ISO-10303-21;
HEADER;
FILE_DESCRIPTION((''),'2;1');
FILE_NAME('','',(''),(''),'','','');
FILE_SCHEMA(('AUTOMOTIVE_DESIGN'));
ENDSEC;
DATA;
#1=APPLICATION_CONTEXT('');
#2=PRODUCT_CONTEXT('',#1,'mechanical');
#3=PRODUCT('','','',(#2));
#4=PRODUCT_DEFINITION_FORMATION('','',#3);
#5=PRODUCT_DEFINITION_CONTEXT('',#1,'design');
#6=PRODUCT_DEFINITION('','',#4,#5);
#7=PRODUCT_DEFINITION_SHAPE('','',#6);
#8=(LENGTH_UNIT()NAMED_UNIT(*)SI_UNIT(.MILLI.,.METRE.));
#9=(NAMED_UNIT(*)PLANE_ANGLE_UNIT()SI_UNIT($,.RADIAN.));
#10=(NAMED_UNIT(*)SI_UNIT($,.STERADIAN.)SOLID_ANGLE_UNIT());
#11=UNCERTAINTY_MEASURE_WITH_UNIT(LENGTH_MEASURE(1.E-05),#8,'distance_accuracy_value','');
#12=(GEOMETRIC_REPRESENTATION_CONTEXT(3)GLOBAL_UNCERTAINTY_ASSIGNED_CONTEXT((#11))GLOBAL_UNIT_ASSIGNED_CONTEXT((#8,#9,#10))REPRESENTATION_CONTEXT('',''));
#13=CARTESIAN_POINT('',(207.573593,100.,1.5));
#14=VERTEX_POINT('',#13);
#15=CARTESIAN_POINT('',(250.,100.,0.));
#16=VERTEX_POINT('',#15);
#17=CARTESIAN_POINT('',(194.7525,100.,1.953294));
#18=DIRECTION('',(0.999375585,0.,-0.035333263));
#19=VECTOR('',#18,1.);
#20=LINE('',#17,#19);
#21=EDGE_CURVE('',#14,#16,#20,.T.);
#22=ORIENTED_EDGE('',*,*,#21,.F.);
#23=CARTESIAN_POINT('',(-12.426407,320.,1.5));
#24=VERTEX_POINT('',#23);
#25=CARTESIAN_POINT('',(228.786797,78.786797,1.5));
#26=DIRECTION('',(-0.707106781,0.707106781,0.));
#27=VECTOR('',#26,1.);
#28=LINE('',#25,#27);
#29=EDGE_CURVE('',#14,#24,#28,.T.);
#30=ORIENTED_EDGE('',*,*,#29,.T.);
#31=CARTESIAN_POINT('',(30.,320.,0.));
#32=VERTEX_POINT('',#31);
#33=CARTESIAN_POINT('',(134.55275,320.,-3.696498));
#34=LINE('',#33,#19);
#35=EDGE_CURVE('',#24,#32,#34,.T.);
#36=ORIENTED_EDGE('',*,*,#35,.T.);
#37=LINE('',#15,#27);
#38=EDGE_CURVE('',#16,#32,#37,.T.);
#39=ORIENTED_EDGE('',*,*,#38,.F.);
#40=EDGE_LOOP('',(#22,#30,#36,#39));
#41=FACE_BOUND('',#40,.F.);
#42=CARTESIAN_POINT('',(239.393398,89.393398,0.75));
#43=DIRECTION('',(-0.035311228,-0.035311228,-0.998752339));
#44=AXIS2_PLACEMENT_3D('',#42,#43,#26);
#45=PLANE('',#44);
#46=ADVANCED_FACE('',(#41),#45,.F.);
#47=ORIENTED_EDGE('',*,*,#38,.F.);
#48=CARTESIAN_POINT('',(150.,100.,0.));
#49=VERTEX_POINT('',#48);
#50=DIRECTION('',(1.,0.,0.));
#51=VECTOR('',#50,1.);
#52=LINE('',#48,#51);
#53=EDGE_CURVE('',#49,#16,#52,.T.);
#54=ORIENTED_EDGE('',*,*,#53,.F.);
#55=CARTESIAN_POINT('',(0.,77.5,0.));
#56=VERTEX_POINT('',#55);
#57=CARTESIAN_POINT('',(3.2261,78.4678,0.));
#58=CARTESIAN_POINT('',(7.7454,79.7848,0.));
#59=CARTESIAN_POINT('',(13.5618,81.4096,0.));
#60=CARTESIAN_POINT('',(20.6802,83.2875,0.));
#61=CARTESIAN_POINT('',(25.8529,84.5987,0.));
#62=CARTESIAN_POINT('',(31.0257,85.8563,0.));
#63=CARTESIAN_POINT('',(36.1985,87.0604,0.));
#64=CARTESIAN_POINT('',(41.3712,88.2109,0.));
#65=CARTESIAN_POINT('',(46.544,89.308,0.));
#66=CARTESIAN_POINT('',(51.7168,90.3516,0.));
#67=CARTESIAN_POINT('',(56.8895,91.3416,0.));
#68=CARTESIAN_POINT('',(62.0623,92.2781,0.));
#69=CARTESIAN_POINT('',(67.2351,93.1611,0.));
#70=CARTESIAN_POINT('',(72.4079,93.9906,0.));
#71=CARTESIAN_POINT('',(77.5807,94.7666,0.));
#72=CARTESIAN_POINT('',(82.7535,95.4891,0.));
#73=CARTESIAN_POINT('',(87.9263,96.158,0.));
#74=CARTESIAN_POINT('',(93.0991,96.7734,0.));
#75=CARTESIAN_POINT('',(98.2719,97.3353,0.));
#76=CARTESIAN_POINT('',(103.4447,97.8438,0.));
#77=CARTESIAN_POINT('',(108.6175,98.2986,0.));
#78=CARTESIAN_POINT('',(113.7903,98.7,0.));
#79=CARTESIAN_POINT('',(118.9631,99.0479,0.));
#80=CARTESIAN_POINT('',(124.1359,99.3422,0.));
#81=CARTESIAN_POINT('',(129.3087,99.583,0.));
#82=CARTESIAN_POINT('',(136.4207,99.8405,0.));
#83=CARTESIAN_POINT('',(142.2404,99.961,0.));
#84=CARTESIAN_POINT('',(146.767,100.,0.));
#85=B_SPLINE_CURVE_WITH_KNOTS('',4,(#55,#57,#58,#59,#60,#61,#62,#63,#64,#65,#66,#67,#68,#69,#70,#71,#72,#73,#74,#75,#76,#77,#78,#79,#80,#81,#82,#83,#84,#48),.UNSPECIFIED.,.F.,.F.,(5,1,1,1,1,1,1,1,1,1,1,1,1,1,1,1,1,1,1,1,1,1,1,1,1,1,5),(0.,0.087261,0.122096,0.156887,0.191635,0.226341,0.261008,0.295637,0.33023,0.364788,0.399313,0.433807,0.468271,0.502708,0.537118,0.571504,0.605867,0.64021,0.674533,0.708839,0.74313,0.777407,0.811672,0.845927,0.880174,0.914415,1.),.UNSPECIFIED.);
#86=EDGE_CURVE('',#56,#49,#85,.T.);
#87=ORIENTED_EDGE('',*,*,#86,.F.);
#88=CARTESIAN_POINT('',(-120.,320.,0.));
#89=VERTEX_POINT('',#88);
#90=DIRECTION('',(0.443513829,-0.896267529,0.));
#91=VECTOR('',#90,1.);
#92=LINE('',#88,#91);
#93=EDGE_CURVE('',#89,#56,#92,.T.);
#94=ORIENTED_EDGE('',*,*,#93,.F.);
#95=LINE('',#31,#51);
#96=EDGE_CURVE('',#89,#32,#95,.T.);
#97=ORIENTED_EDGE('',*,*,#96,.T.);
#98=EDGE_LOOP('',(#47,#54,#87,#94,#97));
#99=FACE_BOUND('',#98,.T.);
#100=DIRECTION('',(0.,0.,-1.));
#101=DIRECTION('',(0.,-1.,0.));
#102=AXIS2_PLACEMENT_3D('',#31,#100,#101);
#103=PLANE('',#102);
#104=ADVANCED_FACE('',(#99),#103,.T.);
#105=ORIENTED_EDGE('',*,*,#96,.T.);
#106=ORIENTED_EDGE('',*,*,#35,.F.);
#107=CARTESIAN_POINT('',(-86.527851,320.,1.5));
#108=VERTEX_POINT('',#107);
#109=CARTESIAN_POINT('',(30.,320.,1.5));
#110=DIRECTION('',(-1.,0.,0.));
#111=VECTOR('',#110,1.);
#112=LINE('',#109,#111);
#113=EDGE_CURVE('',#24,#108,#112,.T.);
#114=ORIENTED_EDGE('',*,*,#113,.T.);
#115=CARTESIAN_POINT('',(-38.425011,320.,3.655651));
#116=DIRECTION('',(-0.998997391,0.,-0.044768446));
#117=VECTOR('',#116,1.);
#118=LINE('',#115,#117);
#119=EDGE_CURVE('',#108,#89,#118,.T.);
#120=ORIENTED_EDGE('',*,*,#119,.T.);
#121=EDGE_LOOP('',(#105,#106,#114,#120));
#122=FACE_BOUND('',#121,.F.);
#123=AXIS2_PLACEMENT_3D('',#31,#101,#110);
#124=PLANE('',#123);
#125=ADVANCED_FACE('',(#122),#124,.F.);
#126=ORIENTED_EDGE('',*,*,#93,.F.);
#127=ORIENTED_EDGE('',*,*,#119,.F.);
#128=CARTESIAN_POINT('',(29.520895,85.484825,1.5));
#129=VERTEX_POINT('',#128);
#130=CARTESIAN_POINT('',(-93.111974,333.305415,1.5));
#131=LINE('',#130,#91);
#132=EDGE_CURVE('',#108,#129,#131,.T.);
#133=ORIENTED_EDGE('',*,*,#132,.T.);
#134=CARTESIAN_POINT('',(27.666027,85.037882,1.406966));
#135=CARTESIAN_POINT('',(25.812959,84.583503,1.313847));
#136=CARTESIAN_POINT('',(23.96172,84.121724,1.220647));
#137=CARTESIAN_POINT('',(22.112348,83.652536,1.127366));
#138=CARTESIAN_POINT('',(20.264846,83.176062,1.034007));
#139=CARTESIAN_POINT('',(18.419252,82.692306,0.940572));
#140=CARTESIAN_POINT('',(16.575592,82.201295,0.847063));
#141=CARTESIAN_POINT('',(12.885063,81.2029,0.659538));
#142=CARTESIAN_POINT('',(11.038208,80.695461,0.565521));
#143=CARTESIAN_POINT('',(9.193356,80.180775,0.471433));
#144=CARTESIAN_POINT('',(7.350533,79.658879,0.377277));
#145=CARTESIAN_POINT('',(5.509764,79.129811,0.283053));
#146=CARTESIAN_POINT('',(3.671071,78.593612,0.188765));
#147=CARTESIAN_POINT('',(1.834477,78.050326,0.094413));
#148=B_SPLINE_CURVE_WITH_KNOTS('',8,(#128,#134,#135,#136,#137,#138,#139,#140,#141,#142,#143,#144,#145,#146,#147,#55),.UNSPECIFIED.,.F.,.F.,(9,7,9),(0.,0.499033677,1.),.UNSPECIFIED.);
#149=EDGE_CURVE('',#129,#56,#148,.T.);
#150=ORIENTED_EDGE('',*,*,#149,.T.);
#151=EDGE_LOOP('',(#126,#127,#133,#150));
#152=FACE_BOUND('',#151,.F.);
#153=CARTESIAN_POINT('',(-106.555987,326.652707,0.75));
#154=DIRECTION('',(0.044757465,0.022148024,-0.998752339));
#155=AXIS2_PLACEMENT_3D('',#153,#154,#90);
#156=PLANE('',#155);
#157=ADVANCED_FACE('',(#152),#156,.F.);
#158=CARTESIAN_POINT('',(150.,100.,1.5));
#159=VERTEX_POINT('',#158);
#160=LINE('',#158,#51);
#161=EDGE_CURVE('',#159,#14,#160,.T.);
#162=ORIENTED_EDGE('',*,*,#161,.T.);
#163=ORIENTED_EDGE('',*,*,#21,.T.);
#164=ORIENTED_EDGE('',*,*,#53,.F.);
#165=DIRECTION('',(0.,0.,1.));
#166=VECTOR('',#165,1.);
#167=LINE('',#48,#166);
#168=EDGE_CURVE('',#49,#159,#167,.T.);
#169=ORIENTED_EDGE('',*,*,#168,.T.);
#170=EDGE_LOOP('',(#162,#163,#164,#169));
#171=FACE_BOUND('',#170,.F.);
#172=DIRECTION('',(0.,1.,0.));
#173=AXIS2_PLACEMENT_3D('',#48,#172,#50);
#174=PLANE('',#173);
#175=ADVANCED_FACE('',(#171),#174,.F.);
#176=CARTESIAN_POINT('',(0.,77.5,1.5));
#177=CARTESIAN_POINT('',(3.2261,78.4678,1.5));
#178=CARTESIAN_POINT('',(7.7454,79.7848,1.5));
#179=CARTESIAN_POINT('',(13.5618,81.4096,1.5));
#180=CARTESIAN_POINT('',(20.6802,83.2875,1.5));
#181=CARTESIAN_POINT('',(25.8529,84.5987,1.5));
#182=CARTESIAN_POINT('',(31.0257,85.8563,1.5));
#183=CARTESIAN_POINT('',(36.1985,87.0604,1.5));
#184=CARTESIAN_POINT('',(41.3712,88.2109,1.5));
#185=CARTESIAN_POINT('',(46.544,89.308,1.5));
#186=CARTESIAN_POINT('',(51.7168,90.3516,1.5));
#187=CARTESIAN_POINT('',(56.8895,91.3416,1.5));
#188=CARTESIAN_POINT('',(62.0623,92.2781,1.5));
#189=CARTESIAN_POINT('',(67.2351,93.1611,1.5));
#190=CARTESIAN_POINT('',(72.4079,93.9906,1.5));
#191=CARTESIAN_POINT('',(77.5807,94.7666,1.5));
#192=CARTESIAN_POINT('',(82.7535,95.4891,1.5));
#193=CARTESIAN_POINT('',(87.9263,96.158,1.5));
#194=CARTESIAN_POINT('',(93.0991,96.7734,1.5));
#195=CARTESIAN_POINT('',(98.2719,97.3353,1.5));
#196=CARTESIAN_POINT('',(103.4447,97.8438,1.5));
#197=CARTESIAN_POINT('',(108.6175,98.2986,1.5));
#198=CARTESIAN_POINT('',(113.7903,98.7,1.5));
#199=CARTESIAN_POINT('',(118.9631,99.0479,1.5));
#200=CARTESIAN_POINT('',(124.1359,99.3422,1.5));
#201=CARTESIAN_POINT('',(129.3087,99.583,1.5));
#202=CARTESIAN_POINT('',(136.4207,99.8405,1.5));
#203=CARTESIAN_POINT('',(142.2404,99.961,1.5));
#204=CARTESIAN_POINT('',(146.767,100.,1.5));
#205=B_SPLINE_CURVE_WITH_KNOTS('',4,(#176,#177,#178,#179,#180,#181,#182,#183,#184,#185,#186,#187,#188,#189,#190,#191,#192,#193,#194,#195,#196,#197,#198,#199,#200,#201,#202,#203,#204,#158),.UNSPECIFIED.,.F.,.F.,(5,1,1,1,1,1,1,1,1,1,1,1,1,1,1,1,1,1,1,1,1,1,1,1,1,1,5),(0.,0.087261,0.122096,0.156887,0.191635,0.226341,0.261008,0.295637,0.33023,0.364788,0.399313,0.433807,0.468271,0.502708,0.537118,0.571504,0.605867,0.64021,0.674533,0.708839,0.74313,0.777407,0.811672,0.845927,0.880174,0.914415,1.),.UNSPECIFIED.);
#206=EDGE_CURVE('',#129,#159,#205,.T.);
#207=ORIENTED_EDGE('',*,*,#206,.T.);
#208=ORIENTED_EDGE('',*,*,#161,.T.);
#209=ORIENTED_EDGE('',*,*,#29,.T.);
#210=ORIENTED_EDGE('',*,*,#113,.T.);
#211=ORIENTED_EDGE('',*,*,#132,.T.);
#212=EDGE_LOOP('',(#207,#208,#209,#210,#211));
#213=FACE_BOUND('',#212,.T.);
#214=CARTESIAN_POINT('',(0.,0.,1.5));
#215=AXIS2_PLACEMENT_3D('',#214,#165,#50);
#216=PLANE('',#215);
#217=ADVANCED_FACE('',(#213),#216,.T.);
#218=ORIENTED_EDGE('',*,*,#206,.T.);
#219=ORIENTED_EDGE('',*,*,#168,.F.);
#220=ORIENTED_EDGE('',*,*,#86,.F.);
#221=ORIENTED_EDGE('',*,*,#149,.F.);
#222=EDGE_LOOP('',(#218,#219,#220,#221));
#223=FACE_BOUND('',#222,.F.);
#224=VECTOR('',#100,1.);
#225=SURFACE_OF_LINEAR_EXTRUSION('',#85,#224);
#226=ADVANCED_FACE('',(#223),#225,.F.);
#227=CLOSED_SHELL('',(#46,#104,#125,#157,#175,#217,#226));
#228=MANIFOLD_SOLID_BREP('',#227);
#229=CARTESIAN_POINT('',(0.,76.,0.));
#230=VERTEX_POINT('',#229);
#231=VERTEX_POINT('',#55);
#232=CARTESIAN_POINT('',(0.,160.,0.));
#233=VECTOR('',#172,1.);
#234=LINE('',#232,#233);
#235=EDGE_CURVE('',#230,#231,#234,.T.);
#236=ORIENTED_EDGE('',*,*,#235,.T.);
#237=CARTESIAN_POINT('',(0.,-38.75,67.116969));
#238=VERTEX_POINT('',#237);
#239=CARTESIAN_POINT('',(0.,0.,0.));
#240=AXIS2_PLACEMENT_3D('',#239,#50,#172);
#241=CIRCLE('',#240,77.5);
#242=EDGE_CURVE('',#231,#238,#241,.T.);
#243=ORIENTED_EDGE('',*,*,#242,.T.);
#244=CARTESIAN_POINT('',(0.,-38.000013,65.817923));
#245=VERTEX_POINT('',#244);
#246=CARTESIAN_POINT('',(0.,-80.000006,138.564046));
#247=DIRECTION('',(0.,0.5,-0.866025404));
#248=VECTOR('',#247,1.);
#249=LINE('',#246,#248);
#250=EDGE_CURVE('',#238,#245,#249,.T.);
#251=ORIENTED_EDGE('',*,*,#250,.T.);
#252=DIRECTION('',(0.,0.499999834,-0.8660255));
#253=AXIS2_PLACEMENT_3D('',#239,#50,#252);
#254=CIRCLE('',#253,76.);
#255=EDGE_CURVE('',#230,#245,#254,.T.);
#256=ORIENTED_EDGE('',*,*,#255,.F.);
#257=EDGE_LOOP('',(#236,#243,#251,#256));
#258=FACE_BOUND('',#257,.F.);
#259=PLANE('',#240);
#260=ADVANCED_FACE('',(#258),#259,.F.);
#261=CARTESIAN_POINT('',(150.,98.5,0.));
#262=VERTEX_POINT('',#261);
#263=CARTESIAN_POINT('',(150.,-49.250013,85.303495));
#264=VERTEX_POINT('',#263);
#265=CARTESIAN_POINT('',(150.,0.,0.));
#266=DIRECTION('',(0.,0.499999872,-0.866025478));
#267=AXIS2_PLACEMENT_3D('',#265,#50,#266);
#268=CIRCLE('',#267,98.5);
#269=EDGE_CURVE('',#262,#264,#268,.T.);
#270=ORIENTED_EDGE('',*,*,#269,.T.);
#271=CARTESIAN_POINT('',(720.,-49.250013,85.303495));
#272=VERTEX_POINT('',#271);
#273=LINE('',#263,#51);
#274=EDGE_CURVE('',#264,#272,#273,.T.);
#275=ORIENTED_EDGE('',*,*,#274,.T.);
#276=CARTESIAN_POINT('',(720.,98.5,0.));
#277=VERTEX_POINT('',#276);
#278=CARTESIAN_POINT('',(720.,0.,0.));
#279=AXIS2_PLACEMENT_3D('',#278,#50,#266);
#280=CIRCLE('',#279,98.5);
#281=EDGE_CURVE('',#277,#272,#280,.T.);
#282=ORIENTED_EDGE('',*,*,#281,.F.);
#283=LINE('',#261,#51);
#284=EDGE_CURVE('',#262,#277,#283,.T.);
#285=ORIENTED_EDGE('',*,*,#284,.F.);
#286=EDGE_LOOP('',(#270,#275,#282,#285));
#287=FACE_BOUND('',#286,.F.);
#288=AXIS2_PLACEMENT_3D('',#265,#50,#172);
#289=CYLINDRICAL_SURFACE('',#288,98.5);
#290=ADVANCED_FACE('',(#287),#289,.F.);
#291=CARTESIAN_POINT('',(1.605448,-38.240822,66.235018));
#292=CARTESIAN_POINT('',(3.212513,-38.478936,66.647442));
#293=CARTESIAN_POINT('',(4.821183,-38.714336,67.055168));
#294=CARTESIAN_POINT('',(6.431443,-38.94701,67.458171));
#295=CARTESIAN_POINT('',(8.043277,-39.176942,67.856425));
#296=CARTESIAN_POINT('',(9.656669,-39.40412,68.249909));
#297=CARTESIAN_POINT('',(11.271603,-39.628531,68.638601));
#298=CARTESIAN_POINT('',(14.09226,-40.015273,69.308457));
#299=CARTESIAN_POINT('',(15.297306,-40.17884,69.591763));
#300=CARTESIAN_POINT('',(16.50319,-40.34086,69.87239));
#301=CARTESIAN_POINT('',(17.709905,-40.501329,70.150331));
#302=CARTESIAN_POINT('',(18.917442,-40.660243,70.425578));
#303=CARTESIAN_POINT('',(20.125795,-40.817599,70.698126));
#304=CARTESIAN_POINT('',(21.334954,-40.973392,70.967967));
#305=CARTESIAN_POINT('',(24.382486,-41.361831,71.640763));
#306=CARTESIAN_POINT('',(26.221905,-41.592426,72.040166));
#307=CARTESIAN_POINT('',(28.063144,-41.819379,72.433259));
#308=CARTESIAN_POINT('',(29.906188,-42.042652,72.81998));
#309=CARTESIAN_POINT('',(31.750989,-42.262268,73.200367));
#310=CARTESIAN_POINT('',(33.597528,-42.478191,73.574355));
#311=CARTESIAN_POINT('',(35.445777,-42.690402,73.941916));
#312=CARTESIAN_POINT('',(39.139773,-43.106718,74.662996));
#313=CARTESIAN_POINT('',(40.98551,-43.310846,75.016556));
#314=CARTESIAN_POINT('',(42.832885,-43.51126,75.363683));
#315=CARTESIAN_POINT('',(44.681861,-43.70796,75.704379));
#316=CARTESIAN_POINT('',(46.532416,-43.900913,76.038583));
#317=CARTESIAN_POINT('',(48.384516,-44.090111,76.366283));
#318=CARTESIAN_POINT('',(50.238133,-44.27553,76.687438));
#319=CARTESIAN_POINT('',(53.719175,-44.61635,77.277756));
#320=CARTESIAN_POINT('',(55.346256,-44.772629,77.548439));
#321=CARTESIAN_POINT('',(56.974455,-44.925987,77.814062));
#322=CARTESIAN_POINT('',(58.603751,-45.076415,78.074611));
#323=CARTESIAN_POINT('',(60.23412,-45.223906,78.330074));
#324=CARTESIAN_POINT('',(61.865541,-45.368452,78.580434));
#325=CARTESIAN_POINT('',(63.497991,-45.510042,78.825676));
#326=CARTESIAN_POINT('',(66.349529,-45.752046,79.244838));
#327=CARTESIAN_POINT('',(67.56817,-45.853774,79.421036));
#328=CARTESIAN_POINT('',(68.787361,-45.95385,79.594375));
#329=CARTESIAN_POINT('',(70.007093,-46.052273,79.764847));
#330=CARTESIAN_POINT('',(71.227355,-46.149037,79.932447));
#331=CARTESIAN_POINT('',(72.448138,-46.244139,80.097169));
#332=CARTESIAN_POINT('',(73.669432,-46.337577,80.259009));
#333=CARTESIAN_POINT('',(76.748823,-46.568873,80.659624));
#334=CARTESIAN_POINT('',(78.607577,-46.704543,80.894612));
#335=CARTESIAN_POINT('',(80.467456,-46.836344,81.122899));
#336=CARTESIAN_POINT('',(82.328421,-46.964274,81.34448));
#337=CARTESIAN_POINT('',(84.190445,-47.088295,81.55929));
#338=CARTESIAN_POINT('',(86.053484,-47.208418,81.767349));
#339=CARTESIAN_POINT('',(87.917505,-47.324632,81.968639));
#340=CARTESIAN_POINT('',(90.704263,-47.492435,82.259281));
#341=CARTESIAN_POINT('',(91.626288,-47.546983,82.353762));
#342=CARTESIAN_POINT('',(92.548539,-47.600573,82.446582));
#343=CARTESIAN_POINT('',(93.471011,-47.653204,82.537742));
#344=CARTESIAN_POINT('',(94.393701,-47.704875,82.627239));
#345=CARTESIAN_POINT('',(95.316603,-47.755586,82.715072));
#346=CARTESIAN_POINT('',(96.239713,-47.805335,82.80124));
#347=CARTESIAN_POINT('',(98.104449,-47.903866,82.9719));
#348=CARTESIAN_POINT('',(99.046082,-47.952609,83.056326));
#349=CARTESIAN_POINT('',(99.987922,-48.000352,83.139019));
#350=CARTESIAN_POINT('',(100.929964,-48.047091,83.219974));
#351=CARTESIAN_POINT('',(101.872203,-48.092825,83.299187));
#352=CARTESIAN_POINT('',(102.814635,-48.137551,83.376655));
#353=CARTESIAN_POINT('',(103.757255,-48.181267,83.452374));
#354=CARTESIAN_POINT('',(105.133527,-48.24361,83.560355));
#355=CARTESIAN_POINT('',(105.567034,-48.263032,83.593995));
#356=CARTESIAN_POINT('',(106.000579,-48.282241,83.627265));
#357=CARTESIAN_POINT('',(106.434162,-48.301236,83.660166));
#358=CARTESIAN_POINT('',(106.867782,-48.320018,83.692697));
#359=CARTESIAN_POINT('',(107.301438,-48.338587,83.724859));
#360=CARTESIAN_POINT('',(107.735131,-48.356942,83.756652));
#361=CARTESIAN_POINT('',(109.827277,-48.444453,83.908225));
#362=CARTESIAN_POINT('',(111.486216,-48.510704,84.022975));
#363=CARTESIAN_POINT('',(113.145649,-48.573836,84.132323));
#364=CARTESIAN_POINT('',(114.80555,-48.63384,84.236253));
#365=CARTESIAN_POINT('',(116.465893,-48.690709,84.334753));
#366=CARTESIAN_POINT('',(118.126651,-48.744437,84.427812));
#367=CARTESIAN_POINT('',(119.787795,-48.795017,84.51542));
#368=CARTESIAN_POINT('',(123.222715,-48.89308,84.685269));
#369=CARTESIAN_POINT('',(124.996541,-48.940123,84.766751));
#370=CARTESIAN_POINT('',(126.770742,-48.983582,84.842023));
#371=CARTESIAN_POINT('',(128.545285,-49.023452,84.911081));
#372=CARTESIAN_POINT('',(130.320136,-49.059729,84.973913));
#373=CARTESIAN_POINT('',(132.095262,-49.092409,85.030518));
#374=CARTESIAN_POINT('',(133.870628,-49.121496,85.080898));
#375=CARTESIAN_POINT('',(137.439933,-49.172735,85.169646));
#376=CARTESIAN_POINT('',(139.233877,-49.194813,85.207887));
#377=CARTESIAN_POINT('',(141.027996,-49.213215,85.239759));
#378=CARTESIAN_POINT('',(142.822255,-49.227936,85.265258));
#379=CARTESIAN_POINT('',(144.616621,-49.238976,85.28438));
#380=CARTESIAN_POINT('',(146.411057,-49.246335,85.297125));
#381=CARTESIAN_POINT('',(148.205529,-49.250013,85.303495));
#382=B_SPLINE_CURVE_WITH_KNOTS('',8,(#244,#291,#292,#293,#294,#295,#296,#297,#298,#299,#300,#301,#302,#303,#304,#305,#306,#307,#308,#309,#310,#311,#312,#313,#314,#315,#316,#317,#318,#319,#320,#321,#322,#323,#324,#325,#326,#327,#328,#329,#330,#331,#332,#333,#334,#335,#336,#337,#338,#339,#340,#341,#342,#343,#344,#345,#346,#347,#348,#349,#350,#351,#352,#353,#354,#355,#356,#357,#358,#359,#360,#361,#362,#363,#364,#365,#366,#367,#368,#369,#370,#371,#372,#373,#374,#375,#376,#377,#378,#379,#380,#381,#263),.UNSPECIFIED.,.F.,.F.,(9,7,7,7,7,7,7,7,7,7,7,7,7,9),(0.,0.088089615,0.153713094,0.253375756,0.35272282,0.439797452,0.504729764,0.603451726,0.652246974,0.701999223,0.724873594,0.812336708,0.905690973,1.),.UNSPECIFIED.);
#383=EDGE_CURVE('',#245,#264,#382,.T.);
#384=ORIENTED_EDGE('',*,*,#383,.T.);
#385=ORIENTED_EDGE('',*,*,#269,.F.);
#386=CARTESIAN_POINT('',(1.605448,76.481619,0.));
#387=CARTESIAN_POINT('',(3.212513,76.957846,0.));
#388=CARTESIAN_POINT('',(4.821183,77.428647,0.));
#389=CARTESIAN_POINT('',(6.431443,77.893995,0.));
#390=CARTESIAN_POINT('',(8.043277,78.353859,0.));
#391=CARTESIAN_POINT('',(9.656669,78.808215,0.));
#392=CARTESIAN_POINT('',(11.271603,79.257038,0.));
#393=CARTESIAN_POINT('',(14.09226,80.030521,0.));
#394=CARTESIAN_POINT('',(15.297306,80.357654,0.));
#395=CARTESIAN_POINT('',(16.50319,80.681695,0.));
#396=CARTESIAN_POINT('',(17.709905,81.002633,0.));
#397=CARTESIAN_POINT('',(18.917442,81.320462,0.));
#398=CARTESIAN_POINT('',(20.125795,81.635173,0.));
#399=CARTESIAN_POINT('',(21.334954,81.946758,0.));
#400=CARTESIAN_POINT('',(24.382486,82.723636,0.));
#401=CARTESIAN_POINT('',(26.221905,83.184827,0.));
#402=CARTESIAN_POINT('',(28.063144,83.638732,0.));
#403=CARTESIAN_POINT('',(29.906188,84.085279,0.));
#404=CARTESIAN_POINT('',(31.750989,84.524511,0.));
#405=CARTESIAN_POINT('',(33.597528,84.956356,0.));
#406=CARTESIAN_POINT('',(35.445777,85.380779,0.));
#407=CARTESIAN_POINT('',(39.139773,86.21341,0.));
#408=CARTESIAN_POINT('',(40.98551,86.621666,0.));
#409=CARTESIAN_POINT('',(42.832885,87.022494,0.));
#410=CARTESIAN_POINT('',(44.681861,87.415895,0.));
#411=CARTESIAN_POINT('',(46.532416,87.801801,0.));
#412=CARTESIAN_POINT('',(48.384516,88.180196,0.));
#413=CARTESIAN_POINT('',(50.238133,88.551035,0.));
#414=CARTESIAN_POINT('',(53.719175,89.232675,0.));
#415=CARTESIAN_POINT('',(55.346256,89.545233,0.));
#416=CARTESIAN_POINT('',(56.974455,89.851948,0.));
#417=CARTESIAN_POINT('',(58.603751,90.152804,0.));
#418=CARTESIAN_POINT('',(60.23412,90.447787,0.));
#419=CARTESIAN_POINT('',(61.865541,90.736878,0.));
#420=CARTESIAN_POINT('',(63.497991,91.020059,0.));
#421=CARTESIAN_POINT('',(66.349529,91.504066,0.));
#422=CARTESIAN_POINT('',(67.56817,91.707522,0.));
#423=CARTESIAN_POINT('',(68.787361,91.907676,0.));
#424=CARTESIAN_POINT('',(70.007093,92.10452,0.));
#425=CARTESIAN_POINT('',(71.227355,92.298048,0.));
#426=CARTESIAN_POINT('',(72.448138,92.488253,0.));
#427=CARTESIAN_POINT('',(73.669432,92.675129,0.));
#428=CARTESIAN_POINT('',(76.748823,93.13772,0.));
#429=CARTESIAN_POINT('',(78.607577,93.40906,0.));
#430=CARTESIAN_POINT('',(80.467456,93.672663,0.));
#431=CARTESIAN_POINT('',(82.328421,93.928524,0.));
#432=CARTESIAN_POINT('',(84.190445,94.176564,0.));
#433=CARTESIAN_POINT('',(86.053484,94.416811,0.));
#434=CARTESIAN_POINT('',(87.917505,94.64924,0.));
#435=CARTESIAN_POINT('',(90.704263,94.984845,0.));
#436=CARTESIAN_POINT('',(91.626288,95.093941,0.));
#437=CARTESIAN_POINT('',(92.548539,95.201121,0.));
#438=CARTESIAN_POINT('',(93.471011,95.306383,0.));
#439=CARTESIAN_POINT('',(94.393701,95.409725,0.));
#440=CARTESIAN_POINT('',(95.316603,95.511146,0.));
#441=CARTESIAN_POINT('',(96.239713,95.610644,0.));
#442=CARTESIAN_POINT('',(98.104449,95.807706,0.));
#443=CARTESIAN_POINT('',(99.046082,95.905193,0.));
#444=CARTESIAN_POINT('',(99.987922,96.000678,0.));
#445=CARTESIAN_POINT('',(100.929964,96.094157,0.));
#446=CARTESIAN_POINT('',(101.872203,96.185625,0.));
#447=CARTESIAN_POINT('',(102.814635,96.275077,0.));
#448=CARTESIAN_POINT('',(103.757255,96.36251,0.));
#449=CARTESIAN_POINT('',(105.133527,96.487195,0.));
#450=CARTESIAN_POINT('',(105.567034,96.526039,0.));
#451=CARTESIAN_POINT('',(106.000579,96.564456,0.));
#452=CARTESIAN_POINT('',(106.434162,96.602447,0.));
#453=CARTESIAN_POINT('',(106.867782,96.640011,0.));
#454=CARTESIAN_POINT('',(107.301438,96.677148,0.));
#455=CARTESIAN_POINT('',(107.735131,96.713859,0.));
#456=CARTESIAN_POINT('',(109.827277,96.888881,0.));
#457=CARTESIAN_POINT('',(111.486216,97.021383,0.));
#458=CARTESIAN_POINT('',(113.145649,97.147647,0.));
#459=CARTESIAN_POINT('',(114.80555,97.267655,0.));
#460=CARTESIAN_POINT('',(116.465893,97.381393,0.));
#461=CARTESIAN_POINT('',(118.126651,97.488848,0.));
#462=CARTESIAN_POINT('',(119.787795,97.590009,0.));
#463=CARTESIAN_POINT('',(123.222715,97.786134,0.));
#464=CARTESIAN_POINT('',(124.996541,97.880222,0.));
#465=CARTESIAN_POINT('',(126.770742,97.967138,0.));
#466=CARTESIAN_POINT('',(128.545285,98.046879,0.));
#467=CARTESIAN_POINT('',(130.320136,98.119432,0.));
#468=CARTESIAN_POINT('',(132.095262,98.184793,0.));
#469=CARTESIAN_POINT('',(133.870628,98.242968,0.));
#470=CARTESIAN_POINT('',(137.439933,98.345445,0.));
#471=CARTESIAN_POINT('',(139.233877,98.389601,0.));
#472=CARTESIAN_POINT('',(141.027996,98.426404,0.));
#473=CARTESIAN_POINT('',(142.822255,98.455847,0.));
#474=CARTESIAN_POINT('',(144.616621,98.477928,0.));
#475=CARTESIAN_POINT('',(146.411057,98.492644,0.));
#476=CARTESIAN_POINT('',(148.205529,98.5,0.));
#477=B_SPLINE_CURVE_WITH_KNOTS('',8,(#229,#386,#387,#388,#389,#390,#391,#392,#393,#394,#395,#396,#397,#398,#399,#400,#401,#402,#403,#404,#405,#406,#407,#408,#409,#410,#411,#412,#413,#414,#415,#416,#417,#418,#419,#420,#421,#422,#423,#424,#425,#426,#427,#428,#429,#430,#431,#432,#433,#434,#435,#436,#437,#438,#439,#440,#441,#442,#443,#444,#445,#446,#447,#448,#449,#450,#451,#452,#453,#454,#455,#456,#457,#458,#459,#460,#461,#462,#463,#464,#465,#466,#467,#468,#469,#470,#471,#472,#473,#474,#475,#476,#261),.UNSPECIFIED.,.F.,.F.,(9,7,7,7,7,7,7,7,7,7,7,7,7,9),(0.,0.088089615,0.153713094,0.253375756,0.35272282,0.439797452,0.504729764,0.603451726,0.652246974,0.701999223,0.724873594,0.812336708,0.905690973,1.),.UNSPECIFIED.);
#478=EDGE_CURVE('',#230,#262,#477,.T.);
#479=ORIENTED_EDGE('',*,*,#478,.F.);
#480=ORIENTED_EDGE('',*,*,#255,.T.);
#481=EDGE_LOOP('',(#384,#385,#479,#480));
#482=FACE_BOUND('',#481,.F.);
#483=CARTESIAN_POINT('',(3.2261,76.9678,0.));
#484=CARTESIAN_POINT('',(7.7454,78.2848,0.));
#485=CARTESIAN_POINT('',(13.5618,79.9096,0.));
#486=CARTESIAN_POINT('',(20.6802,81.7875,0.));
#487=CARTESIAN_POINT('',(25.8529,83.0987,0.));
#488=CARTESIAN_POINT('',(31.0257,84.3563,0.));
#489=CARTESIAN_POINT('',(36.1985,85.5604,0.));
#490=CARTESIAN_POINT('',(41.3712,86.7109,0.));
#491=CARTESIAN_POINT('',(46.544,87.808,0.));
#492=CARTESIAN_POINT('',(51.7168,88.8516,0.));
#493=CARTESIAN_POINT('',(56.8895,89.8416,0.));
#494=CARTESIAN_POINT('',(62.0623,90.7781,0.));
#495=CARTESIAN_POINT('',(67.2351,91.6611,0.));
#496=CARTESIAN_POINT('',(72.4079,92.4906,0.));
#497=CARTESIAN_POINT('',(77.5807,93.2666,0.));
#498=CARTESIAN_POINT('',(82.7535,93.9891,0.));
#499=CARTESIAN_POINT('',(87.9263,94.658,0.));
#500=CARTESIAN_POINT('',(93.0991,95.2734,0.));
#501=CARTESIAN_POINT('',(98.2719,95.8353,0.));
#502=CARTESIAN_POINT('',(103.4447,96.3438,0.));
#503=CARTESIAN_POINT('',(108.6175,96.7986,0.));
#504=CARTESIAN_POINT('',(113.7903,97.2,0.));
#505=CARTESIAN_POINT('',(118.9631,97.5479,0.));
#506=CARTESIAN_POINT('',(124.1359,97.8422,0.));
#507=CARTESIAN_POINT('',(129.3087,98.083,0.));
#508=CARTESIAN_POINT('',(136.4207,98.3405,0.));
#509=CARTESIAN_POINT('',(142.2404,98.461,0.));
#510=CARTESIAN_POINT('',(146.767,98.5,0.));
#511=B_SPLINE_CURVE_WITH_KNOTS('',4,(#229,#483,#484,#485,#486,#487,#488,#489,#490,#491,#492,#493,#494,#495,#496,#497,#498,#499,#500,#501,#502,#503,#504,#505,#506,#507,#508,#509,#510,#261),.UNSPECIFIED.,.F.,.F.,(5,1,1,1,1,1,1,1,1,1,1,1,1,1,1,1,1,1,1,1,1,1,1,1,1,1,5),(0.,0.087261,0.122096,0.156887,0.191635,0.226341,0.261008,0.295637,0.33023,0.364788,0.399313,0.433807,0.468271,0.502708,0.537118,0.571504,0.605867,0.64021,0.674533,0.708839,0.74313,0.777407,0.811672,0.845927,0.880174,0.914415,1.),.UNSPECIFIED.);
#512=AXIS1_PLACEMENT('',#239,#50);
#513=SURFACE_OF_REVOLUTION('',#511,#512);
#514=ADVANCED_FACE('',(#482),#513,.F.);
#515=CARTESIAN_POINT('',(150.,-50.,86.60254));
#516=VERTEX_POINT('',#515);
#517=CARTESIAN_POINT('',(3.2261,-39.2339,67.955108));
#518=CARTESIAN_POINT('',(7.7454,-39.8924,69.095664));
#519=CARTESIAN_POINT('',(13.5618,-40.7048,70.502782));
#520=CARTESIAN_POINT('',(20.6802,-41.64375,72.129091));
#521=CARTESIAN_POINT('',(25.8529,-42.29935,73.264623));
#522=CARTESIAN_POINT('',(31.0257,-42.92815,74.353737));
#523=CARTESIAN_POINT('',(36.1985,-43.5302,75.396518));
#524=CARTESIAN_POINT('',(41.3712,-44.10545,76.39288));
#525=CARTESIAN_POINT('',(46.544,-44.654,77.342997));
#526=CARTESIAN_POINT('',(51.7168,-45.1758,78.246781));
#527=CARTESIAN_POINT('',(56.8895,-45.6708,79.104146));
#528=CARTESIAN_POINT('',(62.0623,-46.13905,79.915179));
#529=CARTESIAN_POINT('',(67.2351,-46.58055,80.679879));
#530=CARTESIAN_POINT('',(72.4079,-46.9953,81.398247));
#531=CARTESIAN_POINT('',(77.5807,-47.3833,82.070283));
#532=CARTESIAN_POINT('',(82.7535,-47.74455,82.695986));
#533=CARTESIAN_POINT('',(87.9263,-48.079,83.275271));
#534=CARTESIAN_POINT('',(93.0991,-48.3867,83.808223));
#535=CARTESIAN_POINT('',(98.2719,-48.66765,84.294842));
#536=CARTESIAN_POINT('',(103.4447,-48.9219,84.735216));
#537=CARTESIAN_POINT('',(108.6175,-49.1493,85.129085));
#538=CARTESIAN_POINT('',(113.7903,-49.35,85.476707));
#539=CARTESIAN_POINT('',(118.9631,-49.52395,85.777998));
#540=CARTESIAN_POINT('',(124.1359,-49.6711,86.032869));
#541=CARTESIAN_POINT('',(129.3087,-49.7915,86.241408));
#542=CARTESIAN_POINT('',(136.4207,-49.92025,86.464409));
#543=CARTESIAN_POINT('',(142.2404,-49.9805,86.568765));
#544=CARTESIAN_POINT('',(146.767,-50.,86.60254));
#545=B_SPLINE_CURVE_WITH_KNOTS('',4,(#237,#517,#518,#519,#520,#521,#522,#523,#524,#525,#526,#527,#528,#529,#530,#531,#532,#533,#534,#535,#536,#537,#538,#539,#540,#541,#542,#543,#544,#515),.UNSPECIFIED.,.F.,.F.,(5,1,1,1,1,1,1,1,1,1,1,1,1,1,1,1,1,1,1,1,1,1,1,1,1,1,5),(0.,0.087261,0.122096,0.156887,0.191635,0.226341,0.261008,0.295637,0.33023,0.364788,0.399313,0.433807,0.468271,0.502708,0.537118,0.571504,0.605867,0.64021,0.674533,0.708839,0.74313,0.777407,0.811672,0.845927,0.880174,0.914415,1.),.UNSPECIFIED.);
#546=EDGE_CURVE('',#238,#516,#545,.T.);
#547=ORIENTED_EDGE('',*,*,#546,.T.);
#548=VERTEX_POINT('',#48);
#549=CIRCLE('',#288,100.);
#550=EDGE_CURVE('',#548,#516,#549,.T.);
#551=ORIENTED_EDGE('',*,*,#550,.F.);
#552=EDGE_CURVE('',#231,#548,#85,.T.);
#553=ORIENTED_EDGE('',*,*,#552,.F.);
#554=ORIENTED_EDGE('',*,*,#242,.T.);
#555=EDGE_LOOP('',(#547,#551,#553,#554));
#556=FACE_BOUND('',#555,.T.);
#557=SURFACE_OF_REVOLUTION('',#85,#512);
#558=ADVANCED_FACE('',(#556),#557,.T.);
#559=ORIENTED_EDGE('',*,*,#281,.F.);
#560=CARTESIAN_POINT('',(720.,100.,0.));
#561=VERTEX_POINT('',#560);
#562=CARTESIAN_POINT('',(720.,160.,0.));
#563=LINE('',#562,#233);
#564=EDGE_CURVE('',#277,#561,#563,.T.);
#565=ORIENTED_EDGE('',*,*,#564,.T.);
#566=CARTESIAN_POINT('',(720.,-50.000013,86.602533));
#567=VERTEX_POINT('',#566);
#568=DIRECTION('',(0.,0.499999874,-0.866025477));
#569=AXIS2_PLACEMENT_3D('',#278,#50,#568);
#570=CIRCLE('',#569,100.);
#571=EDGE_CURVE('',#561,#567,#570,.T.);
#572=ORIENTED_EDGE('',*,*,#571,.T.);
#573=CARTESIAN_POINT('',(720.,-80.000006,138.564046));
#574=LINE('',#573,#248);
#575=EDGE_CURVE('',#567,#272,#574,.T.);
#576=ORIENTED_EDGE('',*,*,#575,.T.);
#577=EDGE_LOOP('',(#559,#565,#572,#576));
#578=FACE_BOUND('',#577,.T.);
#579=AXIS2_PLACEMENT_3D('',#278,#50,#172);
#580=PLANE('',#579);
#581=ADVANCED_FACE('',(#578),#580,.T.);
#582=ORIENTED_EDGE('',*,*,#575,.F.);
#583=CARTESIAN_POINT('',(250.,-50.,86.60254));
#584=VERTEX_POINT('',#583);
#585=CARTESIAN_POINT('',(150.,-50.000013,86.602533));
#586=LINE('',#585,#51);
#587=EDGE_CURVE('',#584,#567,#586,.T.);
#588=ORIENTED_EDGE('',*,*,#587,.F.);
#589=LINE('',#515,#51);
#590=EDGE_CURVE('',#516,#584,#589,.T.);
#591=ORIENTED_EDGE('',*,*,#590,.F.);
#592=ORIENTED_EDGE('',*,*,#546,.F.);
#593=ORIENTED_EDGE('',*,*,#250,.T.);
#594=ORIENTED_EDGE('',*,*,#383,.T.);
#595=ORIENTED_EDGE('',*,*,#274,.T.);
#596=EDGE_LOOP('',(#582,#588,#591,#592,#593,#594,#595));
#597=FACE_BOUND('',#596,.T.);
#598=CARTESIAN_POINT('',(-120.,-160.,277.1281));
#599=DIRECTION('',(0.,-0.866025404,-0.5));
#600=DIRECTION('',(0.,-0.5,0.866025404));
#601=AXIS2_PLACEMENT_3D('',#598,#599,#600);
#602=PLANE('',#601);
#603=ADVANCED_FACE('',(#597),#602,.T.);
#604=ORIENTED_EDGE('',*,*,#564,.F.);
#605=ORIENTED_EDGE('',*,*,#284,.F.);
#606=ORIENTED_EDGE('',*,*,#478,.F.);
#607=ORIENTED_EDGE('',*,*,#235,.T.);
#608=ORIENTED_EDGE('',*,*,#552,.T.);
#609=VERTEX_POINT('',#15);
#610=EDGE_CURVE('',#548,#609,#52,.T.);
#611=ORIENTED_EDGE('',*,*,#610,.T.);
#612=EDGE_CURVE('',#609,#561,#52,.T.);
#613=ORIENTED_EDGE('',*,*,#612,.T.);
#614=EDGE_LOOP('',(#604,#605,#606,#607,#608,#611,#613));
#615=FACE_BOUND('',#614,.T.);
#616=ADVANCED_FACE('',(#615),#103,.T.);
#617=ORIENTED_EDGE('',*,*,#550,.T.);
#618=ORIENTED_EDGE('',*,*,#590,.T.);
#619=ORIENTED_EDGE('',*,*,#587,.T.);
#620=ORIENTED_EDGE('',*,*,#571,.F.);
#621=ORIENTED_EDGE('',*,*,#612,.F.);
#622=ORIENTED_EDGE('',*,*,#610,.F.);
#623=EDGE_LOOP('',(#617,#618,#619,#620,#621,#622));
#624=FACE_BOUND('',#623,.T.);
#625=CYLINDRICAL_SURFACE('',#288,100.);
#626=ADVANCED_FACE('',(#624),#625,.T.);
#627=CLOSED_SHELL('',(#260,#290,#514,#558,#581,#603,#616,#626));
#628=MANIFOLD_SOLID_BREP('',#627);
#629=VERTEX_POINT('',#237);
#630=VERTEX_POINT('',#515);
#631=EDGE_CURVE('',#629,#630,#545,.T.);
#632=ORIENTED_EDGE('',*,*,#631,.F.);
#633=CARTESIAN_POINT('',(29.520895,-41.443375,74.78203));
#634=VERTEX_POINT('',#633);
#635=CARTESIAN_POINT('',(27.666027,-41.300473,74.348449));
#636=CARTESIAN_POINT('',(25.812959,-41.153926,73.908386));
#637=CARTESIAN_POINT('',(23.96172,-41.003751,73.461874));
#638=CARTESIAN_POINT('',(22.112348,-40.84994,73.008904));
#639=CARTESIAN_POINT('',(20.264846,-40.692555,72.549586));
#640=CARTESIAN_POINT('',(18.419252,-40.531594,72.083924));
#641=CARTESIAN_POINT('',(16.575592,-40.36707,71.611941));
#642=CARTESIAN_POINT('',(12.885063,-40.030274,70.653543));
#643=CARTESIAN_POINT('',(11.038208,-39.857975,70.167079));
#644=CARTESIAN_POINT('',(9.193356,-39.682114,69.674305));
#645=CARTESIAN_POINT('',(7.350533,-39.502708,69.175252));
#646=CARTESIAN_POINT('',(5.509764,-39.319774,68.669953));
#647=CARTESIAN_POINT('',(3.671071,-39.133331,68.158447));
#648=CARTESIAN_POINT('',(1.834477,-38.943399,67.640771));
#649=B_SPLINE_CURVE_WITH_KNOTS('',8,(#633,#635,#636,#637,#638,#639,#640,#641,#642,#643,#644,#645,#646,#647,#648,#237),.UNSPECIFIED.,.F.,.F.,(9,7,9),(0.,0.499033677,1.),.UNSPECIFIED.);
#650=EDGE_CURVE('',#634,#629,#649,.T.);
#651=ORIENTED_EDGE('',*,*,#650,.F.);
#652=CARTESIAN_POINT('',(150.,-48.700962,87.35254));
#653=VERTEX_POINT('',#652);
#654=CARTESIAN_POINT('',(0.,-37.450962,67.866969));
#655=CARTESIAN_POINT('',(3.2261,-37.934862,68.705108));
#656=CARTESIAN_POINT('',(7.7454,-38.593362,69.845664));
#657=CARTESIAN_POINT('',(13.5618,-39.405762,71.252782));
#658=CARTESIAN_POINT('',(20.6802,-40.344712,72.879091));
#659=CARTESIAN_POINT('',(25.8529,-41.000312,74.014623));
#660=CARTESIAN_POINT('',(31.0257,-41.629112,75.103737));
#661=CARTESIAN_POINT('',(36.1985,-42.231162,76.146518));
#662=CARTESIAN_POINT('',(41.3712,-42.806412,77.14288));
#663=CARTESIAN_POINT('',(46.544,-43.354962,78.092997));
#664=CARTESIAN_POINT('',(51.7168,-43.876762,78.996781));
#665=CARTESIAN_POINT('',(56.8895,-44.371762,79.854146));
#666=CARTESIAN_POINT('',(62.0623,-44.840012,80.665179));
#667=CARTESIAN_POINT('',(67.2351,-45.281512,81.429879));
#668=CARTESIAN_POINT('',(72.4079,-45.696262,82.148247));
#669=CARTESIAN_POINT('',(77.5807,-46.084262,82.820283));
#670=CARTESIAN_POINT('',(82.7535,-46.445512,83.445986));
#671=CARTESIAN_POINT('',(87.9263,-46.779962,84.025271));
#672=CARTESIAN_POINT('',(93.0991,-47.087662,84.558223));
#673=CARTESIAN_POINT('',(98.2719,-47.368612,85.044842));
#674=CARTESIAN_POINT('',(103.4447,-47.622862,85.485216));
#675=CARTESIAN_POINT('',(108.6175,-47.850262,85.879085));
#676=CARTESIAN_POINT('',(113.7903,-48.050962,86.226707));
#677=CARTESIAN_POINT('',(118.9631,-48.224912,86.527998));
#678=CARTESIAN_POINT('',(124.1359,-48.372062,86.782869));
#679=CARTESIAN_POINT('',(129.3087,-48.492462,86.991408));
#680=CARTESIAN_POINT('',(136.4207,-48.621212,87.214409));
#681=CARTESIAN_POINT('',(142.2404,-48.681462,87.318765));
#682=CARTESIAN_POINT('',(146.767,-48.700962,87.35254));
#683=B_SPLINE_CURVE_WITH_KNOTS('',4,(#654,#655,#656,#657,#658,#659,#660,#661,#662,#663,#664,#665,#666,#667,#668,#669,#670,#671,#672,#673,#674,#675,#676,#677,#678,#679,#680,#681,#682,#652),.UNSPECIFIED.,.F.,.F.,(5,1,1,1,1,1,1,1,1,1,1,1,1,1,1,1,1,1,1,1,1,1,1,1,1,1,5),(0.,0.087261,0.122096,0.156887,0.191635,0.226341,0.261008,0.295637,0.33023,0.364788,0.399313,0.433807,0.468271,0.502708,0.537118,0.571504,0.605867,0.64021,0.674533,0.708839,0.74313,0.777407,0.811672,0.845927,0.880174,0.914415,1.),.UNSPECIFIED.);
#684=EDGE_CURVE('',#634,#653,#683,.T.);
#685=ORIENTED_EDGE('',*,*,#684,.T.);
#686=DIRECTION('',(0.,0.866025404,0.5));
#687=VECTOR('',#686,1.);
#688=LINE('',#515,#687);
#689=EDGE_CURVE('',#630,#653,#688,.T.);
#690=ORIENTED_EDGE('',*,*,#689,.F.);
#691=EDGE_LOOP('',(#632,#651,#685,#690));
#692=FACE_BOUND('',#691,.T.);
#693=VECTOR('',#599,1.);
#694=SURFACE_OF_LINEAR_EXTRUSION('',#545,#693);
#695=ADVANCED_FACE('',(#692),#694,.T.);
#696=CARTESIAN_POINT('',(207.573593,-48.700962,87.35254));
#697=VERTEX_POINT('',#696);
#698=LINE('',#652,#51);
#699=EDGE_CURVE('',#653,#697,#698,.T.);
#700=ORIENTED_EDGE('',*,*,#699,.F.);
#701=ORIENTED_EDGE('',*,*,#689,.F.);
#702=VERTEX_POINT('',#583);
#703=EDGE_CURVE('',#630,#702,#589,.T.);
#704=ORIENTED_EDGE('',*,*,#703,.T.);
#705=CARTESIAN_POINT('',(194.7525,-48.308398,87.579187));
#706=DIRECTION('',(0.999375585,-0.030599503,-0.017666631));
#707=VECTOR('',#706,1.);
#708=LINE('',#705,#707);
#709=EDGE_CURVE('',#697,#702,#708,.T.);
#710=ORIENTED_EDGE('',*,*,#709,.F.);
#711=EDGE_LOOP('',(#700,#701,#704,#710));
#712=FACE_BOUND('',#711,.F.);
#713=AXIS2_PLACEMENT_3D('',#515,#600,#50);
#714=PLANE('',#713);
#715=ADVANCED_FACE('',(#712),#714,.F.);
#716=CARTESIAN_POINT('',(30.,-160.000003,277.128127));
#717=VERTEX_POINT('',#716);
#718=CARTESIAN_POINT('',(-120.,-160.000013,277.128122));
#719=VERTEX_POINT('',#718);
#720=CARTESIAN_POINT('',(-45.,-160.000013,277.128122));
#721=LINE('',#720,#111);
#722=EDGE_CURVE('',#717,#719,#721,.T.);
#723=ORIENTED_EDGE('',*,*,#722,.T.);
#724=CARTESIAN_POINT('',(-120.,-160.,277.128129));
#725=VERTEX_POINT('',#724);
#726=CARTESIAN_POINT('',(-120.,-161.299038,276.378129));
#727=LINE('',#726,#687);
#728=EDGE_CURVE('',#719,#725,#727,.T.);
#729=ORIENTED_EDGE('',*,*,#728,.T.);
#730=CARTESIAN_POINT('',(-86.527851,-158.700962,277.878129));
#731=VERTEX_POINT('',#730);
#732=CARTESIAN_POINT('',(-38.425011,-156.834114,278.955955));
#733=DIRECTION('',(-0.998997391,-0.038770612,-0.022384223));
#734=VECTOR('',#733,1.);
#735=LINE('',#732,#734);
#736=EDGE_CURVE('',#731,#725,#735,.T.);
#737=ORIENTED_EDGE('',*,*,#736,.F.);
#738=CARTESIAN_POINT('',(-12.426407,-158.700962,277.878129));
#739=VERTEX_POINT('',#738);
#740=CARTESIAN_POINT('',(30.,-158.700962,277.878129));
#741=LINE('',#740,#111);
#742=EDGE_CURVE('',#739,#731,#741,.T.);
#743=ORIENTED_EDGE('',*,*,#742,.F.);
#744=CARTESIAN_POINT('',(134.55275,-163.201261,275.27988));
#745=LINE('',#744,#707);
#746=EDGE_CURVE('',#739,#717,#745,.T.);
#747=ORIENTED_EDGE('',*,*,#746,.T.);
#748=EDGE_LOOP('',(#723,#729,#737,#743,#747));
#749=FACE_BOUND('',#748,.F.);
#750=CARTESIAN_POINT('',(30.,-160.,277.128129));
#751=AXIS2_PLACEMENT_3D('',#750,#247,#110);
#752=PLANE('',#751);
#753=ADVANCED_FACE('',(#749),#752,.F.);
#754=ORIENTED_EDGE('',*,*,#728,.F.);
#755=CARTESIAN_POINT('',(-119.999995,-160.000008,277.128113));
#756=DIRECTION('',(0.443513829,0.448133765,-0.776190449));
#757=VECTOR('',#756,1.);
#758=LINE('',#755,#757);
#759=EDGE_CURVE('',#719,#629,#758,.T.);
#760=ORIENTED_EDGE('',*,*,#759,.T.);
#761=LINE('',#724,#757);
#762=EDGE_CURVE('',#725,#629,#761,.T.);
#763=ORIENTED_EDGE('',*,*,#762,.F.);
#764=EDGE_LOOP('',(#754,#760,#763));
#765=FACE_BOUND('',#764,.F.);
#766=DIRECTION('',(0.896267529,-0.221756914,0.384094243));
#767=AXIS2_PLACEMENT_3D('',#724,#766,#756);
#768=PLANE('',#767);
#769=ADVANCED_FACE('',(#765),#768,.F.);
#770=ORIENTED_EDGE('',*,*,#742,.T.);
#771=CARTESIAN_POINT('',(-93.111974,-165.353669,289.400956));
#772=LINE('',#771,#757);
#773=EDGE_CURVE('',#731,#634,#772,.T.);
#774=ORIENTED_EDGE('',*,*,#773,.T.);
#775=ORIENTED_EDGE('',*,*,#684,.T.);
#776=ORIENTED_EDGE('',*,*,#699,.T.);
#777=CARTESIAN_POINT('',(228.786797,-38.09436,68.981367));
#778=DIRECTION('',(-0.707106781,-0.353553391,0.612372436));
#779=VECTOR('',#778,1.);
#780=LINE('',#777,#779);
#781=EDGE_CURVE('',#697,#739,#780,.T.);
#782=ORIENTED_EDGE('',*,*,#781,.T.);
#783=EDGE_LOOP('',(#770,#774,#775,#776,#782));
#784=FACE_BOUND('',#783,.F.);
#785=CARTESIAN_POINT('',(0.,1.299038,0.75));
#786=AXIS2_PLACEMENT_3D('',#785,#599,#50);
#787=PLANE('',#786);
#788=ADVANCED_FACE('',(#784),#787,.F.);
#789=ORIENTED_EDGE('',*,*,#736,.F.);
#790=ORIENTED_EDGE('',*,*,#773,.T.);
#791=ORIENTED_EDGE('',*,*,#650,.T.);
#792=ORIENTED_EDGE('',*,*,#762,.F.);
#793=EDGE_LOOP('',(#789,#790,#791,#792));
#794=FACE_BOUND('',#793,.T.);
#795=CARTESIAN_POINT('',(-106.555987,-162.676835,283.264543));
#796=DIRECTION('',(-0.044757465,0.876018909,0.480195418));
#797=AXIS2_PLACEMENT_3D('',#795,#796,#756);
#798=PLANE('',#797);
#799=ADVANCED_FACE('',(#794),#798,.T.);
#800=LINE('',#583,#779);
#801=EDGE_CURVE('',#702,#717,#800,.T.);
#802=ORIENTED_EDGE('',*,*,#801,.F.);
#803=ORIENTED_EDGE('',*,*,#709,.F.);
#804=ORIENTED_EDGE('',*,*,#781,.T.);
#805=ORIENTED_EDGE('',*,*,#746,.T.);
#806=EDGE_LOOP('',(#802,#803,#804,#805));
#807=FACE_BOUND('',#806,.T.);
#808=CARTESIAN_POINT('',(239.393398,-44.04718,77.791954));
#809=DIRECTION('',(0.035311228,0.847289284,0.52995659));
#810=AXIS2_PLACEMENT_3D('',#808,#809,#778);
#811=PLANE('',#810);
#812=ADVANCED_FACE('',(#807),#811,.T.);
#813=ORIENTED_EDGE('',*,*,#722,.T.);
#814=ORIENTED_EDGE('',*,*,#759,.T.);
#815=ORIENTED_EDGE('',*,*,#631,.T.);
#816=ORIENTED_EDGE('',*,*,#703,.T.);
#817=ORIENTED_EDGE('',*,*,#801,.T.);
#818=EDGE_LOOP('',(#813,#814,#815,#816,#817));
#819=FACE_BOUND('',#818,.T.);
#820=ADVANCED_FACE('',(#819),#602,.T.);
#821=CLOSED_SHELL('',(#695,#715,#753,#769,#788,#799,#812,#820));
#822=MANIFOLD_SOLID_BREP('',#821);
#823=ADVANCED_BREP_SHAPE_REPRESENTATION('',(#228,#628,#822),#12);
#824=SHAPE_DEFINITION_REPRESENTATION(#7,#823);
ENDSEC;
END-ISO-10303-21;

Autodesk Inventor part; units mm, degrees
ref_plane "YZ Plane" through (0, 0, 0) normal (1, 0, 0) x (0, 1, 0)
ref_plane "XZ Plane" through (0, 0, 0) normal (0, 1, 0) x (-1, 0, 0)
ref_plane "XY Plane" through (0, 0, 0) normal (0, 0, 1) x (1, 0, 0)
sketch "Sketch3" plane through (0, 0, 0) normal (0, 0, 1) x (1, 0, 0)
  spline S0 degree 4 poles (0, 76) (3.2261, 76.9678) (7.7454, 78.2848) (13.5618, 79.9096) (20.6802, 81.7875) (25.8529, 83.0987) (31.0257, 84.3563) (36.1985, 85.5604) (41.3712, 86.7109) (46.544, 87.808) (51.7168, 88.8516) (56.8895, 89.8416) (62.0623, 90.7781) (67.2351, 91.6611) (72.4079, 92.4906) (77.5807, 93.2666) (82.7535, 93.9891) (87.9263, 94.658) (93.0991, 95.2734) (98.2719, 95.8353) (103.4447, 96.3438) (108.6175, 96.7986) (113.7903, 97.2) (118.9631, 97.5479) (124.1359, 97.8422) (129.3087, 98.083) (136.4207, 98.3405) (142.2404, 98.461) (146.767, 98.5) (150, 98.5) knots 0 0 0 0 0 0.087261 0.122096 0.156887 0.191635 0.226341 0.261008 0.295637 0.33023 0.364788 0.399313 0.433807 0.468271 0.502708 0.537118 0.571504 0.605867 0.64021 0.674533 0.708839 0.74313 0.777407 0.811672 0.845927 0.880174 0.914415 1 1 1 1 1
  spline S1 degree 4 poles (0, 77.5) (3.2261, 78.4678) (7.7454, 79.7848) (13.5618, 81.4096) (20.6802, 83.2875) (25.8529, 84.5987) (31.0257, 85.8563) (36.1985, 87.0604) (41.3712, 88.2109) (46.544, 89.308) (51.7168, 90.3516) (56.8895, 91.3416) (62.0623, 92.2781) (67.2351, 93.1611) (72.4079, 93.9906) (77.5807, 94.7666) (82.7535, 95.4891) (87.9263, 96.158) (93.0991, 96.7734) (98.2719, 97.3353) (103.4447, 97.8438) (108.6175, 98.2986) (113.7903, 98.7) (118.9631, 99.0479) (124.1359, 99.3422) (129.3087, 99.583) (136.4207, 99.8405) (142.2404, 99.961) (146.767, 100) (150, 100) knots 0 0 0 0 0 0.087261 0.122096 0.156887 0.191635 0.226341 0.261008 0.295637 0.33023 0.364788 0.399313 0.433807 0.468271 0.502708 0.537118 0.571504 0.605867 0.64021 0.674533 0.708839 0.74313 0.777407 0.811672 0.845927 0.880174 0.914415 1 1 1 1 1
  line L0 (0, 77.5) -> (0, 76)
  line L1 (150, 100) -> (720, 100)
  line L2 (150, 98.5) -> (720, 98.5)
  line L3 (720, 100) -> (720, 98.5)
  line L4 (0, 0) -> (1383.1618, 0) construction
  line L5 (250, 100) -> (30, 320)
  line L6 (30, 320) -> (-120, 320)
  line L7 (-120, 320) -> (0, 77.5)
  point P0 (5.1724, 77.525)
  point P1 (10.3448, 78.9964)
  point P2 (15.5172, 80.4144)
  point P3 (20.6897, 81.7788)
  point P4 (25.8621, 83.0898)
  point P5 (31.0345, 84.3472)
  point P6 (36.2069, 85.5511)
  point P7 (41.3793, 86.7015)
  point P8 (46.5517, 87.7985)
  point P9 (51.7241, 88.8419)
  point P10 (56.8966, 89.8317)
  point P11 (62.069, 90.7681)
  point P12 (67.2414, 91.651)
  point P13 (72.4138, 92.4804)
  point P14 (77.5862, 93.2562)
  point P15 (82.7586, 93.9786)
  point P16 (87.931, 94.6474)
  point P17 (93.1034, 95.2628)
  point P18 (98.2759, 95.8246)
  point P19 (103.4483, 96.3329)
  point P20 (108.6207, 96.7878)
  point P21 (113.7931, 97.1891)
  point P22 (118.9655, 97.5369)
  point P23 (124.1379, 97.8312)
  point P24 (129.3103, 98.0719)
  point P25 (134.4828, 98.2592)
  point P26 (139.6552, 98.393)
  point P27 (144.8276, 98.4732)
  point P28 (5.1724, 79.025)
  point P29 (10.3448, 80.4964)
  point P30 (15.5172, 81.9144)
  point P31 (20.6897, 83.2788)
  point P32 (25.8621, 84.5898)
  point P33 (31.0345, 85.8472)
  point P34 (36.2069, 87.0511)
  point P35 (41.3793, 88.2015)
  point P36 (46.5517, 89.2985)
  point P37 (51.7241, 90.3419)
  point P38 (56.8966, 91.3317)
  point P39 (62.069, 92.2681)
  point P40 (67.2414, 93.151)
  point P41 (72.4138, 93.9804)
  point P42 (77.5862, 94.7562)
  point P43 (82.7586, 95.4786)
  point P44 (87.931, 96.1474)
  point P45 (93.1034, 96.7628)
  point P46 (98.2759, 97.3246)
  point P47 (103.4483, 97.8329)
  point P48 (108.6207, 98.2878)
  point P49 (113.7931, 98.6891)
  point P50 (118.9655, 99.0369)
  point P51 (124.1379, 99.3312)
  point P52 (129.3103, 99.5719)
  point P53 (134.4828, 99.7592)
  point P54 (139.6552, 99.893)
  point P55 (144.8276, 99.9732)
  dimension "d6" = 570
  dimension "d7" = 1.5
  dimension "d8" = 1.5
  dimension "d9" = 100
  dimension "d11" = 45
  dimension "d12" = 220
  dimension "d13" = 250
  dimension "d14" = 150
  dimension "d15" = 77.5
  dimension "d63" = 720
  dimension "d66" = 150
revolve "Revolution1" add sketch "Sketch3" angle 360 about axis through (0, 0, 0) along (1, 0, 0) contours L0 S1 L1 L3 L2 S0
extrude "Extrusion1" add sketch "Sketch3" along normal mid plane 3 contours L7 L6 L5 L1 S1
pattern_circular "Circular Pattern1" count 3 over 360 about axis through (-10, 0, 0) along (-1, 0, 0) of "Extrusion1"
chamfer "Chamfer1" distance 30 distance2 1.5 1 edges at (140, -103.701, 182.6153) measured on face at (-30, -118.2843, 207.8744)
chamfer "Chamfer2" distance 30 distance2 1.5 1 edges at (140, -106.299, 181.1153) measured on face at (-30, -120.8824, 206.3744)
chamfer "Chamfer3" distance 30 distance2 1.5 1 edges at (-60, -98.076, 172.8725) measured on face at (-44.1421, -118.2843, 207.8744)
chamfer "Chamfer5" distance 30 distance2 1.5 1 edges at (-60, 198.75, 1.5) measured on face at (-30, 239.1667, 1.5)
chamfer "Chamfer6" distance 30 distance2 1.5 1 edges at (140, 210, 1.5) measured on face at (-9.0023, 241.8283, 1.5)
chamfer "Chamfer7" distance 30 distance2 1.5 1 edges at (-60, 198.75, -1.5) measured on face at (-30, 239.1667, -1.5)
chamfer "Chamfer8" distance 30 distance2 1.5 1 edges at (140, 210, -1.5) measured on face at (-9.0027, 241.8282, -1.5)
chamfer "Chamfer9" distance 30 distance2 1.5 1 edges at (-60, -98.076, -172.8725) measured on face at (-30, -118.2843, -207.8744)
chamfer "Chamfer10" distance 30 distance2 1.5 1 edges at (140, -103.701, -182.6153) measured on face at (-9.0023, -119.6151, -210.1794)
chamfer "Chamfer11" distance 30 distance2 1.5 1 edges at (140, -106.299, -181.1153) measured on face at (-30, -120.8824, -206.3744)
chamfer "Chamfer12" distance 30 distance2 1.5 1 edges at (-60, -100.674, -171.3725) measured on face at (-44.1419, -120.8824, -206.3744)
chamfer "Chamfer13" distance 30 distance2 1.5 1 edges at (-60, -100.674, 171.3725) measured on face at (-44.1419, -120.8824, 206.3744)
ref_plane "Work Plane1" through (30, 320, 0) normal (0, 0, -1) x (-1, 0, 0)
ref_plane "Work Plane2" through (-120, -160, 277.1281) normal (0, -0.866, -0.5) x (1, 0, 0)
split "Split1" plane through (-120, -160, 277.1281) removes the side toward (0, -0.866, -0.5)
split "Split2" plane through (30, 320, 0) removes the side toward (0, 0, -1)
properties part number "26P0131-04-0005-AY" material "CFRP"
